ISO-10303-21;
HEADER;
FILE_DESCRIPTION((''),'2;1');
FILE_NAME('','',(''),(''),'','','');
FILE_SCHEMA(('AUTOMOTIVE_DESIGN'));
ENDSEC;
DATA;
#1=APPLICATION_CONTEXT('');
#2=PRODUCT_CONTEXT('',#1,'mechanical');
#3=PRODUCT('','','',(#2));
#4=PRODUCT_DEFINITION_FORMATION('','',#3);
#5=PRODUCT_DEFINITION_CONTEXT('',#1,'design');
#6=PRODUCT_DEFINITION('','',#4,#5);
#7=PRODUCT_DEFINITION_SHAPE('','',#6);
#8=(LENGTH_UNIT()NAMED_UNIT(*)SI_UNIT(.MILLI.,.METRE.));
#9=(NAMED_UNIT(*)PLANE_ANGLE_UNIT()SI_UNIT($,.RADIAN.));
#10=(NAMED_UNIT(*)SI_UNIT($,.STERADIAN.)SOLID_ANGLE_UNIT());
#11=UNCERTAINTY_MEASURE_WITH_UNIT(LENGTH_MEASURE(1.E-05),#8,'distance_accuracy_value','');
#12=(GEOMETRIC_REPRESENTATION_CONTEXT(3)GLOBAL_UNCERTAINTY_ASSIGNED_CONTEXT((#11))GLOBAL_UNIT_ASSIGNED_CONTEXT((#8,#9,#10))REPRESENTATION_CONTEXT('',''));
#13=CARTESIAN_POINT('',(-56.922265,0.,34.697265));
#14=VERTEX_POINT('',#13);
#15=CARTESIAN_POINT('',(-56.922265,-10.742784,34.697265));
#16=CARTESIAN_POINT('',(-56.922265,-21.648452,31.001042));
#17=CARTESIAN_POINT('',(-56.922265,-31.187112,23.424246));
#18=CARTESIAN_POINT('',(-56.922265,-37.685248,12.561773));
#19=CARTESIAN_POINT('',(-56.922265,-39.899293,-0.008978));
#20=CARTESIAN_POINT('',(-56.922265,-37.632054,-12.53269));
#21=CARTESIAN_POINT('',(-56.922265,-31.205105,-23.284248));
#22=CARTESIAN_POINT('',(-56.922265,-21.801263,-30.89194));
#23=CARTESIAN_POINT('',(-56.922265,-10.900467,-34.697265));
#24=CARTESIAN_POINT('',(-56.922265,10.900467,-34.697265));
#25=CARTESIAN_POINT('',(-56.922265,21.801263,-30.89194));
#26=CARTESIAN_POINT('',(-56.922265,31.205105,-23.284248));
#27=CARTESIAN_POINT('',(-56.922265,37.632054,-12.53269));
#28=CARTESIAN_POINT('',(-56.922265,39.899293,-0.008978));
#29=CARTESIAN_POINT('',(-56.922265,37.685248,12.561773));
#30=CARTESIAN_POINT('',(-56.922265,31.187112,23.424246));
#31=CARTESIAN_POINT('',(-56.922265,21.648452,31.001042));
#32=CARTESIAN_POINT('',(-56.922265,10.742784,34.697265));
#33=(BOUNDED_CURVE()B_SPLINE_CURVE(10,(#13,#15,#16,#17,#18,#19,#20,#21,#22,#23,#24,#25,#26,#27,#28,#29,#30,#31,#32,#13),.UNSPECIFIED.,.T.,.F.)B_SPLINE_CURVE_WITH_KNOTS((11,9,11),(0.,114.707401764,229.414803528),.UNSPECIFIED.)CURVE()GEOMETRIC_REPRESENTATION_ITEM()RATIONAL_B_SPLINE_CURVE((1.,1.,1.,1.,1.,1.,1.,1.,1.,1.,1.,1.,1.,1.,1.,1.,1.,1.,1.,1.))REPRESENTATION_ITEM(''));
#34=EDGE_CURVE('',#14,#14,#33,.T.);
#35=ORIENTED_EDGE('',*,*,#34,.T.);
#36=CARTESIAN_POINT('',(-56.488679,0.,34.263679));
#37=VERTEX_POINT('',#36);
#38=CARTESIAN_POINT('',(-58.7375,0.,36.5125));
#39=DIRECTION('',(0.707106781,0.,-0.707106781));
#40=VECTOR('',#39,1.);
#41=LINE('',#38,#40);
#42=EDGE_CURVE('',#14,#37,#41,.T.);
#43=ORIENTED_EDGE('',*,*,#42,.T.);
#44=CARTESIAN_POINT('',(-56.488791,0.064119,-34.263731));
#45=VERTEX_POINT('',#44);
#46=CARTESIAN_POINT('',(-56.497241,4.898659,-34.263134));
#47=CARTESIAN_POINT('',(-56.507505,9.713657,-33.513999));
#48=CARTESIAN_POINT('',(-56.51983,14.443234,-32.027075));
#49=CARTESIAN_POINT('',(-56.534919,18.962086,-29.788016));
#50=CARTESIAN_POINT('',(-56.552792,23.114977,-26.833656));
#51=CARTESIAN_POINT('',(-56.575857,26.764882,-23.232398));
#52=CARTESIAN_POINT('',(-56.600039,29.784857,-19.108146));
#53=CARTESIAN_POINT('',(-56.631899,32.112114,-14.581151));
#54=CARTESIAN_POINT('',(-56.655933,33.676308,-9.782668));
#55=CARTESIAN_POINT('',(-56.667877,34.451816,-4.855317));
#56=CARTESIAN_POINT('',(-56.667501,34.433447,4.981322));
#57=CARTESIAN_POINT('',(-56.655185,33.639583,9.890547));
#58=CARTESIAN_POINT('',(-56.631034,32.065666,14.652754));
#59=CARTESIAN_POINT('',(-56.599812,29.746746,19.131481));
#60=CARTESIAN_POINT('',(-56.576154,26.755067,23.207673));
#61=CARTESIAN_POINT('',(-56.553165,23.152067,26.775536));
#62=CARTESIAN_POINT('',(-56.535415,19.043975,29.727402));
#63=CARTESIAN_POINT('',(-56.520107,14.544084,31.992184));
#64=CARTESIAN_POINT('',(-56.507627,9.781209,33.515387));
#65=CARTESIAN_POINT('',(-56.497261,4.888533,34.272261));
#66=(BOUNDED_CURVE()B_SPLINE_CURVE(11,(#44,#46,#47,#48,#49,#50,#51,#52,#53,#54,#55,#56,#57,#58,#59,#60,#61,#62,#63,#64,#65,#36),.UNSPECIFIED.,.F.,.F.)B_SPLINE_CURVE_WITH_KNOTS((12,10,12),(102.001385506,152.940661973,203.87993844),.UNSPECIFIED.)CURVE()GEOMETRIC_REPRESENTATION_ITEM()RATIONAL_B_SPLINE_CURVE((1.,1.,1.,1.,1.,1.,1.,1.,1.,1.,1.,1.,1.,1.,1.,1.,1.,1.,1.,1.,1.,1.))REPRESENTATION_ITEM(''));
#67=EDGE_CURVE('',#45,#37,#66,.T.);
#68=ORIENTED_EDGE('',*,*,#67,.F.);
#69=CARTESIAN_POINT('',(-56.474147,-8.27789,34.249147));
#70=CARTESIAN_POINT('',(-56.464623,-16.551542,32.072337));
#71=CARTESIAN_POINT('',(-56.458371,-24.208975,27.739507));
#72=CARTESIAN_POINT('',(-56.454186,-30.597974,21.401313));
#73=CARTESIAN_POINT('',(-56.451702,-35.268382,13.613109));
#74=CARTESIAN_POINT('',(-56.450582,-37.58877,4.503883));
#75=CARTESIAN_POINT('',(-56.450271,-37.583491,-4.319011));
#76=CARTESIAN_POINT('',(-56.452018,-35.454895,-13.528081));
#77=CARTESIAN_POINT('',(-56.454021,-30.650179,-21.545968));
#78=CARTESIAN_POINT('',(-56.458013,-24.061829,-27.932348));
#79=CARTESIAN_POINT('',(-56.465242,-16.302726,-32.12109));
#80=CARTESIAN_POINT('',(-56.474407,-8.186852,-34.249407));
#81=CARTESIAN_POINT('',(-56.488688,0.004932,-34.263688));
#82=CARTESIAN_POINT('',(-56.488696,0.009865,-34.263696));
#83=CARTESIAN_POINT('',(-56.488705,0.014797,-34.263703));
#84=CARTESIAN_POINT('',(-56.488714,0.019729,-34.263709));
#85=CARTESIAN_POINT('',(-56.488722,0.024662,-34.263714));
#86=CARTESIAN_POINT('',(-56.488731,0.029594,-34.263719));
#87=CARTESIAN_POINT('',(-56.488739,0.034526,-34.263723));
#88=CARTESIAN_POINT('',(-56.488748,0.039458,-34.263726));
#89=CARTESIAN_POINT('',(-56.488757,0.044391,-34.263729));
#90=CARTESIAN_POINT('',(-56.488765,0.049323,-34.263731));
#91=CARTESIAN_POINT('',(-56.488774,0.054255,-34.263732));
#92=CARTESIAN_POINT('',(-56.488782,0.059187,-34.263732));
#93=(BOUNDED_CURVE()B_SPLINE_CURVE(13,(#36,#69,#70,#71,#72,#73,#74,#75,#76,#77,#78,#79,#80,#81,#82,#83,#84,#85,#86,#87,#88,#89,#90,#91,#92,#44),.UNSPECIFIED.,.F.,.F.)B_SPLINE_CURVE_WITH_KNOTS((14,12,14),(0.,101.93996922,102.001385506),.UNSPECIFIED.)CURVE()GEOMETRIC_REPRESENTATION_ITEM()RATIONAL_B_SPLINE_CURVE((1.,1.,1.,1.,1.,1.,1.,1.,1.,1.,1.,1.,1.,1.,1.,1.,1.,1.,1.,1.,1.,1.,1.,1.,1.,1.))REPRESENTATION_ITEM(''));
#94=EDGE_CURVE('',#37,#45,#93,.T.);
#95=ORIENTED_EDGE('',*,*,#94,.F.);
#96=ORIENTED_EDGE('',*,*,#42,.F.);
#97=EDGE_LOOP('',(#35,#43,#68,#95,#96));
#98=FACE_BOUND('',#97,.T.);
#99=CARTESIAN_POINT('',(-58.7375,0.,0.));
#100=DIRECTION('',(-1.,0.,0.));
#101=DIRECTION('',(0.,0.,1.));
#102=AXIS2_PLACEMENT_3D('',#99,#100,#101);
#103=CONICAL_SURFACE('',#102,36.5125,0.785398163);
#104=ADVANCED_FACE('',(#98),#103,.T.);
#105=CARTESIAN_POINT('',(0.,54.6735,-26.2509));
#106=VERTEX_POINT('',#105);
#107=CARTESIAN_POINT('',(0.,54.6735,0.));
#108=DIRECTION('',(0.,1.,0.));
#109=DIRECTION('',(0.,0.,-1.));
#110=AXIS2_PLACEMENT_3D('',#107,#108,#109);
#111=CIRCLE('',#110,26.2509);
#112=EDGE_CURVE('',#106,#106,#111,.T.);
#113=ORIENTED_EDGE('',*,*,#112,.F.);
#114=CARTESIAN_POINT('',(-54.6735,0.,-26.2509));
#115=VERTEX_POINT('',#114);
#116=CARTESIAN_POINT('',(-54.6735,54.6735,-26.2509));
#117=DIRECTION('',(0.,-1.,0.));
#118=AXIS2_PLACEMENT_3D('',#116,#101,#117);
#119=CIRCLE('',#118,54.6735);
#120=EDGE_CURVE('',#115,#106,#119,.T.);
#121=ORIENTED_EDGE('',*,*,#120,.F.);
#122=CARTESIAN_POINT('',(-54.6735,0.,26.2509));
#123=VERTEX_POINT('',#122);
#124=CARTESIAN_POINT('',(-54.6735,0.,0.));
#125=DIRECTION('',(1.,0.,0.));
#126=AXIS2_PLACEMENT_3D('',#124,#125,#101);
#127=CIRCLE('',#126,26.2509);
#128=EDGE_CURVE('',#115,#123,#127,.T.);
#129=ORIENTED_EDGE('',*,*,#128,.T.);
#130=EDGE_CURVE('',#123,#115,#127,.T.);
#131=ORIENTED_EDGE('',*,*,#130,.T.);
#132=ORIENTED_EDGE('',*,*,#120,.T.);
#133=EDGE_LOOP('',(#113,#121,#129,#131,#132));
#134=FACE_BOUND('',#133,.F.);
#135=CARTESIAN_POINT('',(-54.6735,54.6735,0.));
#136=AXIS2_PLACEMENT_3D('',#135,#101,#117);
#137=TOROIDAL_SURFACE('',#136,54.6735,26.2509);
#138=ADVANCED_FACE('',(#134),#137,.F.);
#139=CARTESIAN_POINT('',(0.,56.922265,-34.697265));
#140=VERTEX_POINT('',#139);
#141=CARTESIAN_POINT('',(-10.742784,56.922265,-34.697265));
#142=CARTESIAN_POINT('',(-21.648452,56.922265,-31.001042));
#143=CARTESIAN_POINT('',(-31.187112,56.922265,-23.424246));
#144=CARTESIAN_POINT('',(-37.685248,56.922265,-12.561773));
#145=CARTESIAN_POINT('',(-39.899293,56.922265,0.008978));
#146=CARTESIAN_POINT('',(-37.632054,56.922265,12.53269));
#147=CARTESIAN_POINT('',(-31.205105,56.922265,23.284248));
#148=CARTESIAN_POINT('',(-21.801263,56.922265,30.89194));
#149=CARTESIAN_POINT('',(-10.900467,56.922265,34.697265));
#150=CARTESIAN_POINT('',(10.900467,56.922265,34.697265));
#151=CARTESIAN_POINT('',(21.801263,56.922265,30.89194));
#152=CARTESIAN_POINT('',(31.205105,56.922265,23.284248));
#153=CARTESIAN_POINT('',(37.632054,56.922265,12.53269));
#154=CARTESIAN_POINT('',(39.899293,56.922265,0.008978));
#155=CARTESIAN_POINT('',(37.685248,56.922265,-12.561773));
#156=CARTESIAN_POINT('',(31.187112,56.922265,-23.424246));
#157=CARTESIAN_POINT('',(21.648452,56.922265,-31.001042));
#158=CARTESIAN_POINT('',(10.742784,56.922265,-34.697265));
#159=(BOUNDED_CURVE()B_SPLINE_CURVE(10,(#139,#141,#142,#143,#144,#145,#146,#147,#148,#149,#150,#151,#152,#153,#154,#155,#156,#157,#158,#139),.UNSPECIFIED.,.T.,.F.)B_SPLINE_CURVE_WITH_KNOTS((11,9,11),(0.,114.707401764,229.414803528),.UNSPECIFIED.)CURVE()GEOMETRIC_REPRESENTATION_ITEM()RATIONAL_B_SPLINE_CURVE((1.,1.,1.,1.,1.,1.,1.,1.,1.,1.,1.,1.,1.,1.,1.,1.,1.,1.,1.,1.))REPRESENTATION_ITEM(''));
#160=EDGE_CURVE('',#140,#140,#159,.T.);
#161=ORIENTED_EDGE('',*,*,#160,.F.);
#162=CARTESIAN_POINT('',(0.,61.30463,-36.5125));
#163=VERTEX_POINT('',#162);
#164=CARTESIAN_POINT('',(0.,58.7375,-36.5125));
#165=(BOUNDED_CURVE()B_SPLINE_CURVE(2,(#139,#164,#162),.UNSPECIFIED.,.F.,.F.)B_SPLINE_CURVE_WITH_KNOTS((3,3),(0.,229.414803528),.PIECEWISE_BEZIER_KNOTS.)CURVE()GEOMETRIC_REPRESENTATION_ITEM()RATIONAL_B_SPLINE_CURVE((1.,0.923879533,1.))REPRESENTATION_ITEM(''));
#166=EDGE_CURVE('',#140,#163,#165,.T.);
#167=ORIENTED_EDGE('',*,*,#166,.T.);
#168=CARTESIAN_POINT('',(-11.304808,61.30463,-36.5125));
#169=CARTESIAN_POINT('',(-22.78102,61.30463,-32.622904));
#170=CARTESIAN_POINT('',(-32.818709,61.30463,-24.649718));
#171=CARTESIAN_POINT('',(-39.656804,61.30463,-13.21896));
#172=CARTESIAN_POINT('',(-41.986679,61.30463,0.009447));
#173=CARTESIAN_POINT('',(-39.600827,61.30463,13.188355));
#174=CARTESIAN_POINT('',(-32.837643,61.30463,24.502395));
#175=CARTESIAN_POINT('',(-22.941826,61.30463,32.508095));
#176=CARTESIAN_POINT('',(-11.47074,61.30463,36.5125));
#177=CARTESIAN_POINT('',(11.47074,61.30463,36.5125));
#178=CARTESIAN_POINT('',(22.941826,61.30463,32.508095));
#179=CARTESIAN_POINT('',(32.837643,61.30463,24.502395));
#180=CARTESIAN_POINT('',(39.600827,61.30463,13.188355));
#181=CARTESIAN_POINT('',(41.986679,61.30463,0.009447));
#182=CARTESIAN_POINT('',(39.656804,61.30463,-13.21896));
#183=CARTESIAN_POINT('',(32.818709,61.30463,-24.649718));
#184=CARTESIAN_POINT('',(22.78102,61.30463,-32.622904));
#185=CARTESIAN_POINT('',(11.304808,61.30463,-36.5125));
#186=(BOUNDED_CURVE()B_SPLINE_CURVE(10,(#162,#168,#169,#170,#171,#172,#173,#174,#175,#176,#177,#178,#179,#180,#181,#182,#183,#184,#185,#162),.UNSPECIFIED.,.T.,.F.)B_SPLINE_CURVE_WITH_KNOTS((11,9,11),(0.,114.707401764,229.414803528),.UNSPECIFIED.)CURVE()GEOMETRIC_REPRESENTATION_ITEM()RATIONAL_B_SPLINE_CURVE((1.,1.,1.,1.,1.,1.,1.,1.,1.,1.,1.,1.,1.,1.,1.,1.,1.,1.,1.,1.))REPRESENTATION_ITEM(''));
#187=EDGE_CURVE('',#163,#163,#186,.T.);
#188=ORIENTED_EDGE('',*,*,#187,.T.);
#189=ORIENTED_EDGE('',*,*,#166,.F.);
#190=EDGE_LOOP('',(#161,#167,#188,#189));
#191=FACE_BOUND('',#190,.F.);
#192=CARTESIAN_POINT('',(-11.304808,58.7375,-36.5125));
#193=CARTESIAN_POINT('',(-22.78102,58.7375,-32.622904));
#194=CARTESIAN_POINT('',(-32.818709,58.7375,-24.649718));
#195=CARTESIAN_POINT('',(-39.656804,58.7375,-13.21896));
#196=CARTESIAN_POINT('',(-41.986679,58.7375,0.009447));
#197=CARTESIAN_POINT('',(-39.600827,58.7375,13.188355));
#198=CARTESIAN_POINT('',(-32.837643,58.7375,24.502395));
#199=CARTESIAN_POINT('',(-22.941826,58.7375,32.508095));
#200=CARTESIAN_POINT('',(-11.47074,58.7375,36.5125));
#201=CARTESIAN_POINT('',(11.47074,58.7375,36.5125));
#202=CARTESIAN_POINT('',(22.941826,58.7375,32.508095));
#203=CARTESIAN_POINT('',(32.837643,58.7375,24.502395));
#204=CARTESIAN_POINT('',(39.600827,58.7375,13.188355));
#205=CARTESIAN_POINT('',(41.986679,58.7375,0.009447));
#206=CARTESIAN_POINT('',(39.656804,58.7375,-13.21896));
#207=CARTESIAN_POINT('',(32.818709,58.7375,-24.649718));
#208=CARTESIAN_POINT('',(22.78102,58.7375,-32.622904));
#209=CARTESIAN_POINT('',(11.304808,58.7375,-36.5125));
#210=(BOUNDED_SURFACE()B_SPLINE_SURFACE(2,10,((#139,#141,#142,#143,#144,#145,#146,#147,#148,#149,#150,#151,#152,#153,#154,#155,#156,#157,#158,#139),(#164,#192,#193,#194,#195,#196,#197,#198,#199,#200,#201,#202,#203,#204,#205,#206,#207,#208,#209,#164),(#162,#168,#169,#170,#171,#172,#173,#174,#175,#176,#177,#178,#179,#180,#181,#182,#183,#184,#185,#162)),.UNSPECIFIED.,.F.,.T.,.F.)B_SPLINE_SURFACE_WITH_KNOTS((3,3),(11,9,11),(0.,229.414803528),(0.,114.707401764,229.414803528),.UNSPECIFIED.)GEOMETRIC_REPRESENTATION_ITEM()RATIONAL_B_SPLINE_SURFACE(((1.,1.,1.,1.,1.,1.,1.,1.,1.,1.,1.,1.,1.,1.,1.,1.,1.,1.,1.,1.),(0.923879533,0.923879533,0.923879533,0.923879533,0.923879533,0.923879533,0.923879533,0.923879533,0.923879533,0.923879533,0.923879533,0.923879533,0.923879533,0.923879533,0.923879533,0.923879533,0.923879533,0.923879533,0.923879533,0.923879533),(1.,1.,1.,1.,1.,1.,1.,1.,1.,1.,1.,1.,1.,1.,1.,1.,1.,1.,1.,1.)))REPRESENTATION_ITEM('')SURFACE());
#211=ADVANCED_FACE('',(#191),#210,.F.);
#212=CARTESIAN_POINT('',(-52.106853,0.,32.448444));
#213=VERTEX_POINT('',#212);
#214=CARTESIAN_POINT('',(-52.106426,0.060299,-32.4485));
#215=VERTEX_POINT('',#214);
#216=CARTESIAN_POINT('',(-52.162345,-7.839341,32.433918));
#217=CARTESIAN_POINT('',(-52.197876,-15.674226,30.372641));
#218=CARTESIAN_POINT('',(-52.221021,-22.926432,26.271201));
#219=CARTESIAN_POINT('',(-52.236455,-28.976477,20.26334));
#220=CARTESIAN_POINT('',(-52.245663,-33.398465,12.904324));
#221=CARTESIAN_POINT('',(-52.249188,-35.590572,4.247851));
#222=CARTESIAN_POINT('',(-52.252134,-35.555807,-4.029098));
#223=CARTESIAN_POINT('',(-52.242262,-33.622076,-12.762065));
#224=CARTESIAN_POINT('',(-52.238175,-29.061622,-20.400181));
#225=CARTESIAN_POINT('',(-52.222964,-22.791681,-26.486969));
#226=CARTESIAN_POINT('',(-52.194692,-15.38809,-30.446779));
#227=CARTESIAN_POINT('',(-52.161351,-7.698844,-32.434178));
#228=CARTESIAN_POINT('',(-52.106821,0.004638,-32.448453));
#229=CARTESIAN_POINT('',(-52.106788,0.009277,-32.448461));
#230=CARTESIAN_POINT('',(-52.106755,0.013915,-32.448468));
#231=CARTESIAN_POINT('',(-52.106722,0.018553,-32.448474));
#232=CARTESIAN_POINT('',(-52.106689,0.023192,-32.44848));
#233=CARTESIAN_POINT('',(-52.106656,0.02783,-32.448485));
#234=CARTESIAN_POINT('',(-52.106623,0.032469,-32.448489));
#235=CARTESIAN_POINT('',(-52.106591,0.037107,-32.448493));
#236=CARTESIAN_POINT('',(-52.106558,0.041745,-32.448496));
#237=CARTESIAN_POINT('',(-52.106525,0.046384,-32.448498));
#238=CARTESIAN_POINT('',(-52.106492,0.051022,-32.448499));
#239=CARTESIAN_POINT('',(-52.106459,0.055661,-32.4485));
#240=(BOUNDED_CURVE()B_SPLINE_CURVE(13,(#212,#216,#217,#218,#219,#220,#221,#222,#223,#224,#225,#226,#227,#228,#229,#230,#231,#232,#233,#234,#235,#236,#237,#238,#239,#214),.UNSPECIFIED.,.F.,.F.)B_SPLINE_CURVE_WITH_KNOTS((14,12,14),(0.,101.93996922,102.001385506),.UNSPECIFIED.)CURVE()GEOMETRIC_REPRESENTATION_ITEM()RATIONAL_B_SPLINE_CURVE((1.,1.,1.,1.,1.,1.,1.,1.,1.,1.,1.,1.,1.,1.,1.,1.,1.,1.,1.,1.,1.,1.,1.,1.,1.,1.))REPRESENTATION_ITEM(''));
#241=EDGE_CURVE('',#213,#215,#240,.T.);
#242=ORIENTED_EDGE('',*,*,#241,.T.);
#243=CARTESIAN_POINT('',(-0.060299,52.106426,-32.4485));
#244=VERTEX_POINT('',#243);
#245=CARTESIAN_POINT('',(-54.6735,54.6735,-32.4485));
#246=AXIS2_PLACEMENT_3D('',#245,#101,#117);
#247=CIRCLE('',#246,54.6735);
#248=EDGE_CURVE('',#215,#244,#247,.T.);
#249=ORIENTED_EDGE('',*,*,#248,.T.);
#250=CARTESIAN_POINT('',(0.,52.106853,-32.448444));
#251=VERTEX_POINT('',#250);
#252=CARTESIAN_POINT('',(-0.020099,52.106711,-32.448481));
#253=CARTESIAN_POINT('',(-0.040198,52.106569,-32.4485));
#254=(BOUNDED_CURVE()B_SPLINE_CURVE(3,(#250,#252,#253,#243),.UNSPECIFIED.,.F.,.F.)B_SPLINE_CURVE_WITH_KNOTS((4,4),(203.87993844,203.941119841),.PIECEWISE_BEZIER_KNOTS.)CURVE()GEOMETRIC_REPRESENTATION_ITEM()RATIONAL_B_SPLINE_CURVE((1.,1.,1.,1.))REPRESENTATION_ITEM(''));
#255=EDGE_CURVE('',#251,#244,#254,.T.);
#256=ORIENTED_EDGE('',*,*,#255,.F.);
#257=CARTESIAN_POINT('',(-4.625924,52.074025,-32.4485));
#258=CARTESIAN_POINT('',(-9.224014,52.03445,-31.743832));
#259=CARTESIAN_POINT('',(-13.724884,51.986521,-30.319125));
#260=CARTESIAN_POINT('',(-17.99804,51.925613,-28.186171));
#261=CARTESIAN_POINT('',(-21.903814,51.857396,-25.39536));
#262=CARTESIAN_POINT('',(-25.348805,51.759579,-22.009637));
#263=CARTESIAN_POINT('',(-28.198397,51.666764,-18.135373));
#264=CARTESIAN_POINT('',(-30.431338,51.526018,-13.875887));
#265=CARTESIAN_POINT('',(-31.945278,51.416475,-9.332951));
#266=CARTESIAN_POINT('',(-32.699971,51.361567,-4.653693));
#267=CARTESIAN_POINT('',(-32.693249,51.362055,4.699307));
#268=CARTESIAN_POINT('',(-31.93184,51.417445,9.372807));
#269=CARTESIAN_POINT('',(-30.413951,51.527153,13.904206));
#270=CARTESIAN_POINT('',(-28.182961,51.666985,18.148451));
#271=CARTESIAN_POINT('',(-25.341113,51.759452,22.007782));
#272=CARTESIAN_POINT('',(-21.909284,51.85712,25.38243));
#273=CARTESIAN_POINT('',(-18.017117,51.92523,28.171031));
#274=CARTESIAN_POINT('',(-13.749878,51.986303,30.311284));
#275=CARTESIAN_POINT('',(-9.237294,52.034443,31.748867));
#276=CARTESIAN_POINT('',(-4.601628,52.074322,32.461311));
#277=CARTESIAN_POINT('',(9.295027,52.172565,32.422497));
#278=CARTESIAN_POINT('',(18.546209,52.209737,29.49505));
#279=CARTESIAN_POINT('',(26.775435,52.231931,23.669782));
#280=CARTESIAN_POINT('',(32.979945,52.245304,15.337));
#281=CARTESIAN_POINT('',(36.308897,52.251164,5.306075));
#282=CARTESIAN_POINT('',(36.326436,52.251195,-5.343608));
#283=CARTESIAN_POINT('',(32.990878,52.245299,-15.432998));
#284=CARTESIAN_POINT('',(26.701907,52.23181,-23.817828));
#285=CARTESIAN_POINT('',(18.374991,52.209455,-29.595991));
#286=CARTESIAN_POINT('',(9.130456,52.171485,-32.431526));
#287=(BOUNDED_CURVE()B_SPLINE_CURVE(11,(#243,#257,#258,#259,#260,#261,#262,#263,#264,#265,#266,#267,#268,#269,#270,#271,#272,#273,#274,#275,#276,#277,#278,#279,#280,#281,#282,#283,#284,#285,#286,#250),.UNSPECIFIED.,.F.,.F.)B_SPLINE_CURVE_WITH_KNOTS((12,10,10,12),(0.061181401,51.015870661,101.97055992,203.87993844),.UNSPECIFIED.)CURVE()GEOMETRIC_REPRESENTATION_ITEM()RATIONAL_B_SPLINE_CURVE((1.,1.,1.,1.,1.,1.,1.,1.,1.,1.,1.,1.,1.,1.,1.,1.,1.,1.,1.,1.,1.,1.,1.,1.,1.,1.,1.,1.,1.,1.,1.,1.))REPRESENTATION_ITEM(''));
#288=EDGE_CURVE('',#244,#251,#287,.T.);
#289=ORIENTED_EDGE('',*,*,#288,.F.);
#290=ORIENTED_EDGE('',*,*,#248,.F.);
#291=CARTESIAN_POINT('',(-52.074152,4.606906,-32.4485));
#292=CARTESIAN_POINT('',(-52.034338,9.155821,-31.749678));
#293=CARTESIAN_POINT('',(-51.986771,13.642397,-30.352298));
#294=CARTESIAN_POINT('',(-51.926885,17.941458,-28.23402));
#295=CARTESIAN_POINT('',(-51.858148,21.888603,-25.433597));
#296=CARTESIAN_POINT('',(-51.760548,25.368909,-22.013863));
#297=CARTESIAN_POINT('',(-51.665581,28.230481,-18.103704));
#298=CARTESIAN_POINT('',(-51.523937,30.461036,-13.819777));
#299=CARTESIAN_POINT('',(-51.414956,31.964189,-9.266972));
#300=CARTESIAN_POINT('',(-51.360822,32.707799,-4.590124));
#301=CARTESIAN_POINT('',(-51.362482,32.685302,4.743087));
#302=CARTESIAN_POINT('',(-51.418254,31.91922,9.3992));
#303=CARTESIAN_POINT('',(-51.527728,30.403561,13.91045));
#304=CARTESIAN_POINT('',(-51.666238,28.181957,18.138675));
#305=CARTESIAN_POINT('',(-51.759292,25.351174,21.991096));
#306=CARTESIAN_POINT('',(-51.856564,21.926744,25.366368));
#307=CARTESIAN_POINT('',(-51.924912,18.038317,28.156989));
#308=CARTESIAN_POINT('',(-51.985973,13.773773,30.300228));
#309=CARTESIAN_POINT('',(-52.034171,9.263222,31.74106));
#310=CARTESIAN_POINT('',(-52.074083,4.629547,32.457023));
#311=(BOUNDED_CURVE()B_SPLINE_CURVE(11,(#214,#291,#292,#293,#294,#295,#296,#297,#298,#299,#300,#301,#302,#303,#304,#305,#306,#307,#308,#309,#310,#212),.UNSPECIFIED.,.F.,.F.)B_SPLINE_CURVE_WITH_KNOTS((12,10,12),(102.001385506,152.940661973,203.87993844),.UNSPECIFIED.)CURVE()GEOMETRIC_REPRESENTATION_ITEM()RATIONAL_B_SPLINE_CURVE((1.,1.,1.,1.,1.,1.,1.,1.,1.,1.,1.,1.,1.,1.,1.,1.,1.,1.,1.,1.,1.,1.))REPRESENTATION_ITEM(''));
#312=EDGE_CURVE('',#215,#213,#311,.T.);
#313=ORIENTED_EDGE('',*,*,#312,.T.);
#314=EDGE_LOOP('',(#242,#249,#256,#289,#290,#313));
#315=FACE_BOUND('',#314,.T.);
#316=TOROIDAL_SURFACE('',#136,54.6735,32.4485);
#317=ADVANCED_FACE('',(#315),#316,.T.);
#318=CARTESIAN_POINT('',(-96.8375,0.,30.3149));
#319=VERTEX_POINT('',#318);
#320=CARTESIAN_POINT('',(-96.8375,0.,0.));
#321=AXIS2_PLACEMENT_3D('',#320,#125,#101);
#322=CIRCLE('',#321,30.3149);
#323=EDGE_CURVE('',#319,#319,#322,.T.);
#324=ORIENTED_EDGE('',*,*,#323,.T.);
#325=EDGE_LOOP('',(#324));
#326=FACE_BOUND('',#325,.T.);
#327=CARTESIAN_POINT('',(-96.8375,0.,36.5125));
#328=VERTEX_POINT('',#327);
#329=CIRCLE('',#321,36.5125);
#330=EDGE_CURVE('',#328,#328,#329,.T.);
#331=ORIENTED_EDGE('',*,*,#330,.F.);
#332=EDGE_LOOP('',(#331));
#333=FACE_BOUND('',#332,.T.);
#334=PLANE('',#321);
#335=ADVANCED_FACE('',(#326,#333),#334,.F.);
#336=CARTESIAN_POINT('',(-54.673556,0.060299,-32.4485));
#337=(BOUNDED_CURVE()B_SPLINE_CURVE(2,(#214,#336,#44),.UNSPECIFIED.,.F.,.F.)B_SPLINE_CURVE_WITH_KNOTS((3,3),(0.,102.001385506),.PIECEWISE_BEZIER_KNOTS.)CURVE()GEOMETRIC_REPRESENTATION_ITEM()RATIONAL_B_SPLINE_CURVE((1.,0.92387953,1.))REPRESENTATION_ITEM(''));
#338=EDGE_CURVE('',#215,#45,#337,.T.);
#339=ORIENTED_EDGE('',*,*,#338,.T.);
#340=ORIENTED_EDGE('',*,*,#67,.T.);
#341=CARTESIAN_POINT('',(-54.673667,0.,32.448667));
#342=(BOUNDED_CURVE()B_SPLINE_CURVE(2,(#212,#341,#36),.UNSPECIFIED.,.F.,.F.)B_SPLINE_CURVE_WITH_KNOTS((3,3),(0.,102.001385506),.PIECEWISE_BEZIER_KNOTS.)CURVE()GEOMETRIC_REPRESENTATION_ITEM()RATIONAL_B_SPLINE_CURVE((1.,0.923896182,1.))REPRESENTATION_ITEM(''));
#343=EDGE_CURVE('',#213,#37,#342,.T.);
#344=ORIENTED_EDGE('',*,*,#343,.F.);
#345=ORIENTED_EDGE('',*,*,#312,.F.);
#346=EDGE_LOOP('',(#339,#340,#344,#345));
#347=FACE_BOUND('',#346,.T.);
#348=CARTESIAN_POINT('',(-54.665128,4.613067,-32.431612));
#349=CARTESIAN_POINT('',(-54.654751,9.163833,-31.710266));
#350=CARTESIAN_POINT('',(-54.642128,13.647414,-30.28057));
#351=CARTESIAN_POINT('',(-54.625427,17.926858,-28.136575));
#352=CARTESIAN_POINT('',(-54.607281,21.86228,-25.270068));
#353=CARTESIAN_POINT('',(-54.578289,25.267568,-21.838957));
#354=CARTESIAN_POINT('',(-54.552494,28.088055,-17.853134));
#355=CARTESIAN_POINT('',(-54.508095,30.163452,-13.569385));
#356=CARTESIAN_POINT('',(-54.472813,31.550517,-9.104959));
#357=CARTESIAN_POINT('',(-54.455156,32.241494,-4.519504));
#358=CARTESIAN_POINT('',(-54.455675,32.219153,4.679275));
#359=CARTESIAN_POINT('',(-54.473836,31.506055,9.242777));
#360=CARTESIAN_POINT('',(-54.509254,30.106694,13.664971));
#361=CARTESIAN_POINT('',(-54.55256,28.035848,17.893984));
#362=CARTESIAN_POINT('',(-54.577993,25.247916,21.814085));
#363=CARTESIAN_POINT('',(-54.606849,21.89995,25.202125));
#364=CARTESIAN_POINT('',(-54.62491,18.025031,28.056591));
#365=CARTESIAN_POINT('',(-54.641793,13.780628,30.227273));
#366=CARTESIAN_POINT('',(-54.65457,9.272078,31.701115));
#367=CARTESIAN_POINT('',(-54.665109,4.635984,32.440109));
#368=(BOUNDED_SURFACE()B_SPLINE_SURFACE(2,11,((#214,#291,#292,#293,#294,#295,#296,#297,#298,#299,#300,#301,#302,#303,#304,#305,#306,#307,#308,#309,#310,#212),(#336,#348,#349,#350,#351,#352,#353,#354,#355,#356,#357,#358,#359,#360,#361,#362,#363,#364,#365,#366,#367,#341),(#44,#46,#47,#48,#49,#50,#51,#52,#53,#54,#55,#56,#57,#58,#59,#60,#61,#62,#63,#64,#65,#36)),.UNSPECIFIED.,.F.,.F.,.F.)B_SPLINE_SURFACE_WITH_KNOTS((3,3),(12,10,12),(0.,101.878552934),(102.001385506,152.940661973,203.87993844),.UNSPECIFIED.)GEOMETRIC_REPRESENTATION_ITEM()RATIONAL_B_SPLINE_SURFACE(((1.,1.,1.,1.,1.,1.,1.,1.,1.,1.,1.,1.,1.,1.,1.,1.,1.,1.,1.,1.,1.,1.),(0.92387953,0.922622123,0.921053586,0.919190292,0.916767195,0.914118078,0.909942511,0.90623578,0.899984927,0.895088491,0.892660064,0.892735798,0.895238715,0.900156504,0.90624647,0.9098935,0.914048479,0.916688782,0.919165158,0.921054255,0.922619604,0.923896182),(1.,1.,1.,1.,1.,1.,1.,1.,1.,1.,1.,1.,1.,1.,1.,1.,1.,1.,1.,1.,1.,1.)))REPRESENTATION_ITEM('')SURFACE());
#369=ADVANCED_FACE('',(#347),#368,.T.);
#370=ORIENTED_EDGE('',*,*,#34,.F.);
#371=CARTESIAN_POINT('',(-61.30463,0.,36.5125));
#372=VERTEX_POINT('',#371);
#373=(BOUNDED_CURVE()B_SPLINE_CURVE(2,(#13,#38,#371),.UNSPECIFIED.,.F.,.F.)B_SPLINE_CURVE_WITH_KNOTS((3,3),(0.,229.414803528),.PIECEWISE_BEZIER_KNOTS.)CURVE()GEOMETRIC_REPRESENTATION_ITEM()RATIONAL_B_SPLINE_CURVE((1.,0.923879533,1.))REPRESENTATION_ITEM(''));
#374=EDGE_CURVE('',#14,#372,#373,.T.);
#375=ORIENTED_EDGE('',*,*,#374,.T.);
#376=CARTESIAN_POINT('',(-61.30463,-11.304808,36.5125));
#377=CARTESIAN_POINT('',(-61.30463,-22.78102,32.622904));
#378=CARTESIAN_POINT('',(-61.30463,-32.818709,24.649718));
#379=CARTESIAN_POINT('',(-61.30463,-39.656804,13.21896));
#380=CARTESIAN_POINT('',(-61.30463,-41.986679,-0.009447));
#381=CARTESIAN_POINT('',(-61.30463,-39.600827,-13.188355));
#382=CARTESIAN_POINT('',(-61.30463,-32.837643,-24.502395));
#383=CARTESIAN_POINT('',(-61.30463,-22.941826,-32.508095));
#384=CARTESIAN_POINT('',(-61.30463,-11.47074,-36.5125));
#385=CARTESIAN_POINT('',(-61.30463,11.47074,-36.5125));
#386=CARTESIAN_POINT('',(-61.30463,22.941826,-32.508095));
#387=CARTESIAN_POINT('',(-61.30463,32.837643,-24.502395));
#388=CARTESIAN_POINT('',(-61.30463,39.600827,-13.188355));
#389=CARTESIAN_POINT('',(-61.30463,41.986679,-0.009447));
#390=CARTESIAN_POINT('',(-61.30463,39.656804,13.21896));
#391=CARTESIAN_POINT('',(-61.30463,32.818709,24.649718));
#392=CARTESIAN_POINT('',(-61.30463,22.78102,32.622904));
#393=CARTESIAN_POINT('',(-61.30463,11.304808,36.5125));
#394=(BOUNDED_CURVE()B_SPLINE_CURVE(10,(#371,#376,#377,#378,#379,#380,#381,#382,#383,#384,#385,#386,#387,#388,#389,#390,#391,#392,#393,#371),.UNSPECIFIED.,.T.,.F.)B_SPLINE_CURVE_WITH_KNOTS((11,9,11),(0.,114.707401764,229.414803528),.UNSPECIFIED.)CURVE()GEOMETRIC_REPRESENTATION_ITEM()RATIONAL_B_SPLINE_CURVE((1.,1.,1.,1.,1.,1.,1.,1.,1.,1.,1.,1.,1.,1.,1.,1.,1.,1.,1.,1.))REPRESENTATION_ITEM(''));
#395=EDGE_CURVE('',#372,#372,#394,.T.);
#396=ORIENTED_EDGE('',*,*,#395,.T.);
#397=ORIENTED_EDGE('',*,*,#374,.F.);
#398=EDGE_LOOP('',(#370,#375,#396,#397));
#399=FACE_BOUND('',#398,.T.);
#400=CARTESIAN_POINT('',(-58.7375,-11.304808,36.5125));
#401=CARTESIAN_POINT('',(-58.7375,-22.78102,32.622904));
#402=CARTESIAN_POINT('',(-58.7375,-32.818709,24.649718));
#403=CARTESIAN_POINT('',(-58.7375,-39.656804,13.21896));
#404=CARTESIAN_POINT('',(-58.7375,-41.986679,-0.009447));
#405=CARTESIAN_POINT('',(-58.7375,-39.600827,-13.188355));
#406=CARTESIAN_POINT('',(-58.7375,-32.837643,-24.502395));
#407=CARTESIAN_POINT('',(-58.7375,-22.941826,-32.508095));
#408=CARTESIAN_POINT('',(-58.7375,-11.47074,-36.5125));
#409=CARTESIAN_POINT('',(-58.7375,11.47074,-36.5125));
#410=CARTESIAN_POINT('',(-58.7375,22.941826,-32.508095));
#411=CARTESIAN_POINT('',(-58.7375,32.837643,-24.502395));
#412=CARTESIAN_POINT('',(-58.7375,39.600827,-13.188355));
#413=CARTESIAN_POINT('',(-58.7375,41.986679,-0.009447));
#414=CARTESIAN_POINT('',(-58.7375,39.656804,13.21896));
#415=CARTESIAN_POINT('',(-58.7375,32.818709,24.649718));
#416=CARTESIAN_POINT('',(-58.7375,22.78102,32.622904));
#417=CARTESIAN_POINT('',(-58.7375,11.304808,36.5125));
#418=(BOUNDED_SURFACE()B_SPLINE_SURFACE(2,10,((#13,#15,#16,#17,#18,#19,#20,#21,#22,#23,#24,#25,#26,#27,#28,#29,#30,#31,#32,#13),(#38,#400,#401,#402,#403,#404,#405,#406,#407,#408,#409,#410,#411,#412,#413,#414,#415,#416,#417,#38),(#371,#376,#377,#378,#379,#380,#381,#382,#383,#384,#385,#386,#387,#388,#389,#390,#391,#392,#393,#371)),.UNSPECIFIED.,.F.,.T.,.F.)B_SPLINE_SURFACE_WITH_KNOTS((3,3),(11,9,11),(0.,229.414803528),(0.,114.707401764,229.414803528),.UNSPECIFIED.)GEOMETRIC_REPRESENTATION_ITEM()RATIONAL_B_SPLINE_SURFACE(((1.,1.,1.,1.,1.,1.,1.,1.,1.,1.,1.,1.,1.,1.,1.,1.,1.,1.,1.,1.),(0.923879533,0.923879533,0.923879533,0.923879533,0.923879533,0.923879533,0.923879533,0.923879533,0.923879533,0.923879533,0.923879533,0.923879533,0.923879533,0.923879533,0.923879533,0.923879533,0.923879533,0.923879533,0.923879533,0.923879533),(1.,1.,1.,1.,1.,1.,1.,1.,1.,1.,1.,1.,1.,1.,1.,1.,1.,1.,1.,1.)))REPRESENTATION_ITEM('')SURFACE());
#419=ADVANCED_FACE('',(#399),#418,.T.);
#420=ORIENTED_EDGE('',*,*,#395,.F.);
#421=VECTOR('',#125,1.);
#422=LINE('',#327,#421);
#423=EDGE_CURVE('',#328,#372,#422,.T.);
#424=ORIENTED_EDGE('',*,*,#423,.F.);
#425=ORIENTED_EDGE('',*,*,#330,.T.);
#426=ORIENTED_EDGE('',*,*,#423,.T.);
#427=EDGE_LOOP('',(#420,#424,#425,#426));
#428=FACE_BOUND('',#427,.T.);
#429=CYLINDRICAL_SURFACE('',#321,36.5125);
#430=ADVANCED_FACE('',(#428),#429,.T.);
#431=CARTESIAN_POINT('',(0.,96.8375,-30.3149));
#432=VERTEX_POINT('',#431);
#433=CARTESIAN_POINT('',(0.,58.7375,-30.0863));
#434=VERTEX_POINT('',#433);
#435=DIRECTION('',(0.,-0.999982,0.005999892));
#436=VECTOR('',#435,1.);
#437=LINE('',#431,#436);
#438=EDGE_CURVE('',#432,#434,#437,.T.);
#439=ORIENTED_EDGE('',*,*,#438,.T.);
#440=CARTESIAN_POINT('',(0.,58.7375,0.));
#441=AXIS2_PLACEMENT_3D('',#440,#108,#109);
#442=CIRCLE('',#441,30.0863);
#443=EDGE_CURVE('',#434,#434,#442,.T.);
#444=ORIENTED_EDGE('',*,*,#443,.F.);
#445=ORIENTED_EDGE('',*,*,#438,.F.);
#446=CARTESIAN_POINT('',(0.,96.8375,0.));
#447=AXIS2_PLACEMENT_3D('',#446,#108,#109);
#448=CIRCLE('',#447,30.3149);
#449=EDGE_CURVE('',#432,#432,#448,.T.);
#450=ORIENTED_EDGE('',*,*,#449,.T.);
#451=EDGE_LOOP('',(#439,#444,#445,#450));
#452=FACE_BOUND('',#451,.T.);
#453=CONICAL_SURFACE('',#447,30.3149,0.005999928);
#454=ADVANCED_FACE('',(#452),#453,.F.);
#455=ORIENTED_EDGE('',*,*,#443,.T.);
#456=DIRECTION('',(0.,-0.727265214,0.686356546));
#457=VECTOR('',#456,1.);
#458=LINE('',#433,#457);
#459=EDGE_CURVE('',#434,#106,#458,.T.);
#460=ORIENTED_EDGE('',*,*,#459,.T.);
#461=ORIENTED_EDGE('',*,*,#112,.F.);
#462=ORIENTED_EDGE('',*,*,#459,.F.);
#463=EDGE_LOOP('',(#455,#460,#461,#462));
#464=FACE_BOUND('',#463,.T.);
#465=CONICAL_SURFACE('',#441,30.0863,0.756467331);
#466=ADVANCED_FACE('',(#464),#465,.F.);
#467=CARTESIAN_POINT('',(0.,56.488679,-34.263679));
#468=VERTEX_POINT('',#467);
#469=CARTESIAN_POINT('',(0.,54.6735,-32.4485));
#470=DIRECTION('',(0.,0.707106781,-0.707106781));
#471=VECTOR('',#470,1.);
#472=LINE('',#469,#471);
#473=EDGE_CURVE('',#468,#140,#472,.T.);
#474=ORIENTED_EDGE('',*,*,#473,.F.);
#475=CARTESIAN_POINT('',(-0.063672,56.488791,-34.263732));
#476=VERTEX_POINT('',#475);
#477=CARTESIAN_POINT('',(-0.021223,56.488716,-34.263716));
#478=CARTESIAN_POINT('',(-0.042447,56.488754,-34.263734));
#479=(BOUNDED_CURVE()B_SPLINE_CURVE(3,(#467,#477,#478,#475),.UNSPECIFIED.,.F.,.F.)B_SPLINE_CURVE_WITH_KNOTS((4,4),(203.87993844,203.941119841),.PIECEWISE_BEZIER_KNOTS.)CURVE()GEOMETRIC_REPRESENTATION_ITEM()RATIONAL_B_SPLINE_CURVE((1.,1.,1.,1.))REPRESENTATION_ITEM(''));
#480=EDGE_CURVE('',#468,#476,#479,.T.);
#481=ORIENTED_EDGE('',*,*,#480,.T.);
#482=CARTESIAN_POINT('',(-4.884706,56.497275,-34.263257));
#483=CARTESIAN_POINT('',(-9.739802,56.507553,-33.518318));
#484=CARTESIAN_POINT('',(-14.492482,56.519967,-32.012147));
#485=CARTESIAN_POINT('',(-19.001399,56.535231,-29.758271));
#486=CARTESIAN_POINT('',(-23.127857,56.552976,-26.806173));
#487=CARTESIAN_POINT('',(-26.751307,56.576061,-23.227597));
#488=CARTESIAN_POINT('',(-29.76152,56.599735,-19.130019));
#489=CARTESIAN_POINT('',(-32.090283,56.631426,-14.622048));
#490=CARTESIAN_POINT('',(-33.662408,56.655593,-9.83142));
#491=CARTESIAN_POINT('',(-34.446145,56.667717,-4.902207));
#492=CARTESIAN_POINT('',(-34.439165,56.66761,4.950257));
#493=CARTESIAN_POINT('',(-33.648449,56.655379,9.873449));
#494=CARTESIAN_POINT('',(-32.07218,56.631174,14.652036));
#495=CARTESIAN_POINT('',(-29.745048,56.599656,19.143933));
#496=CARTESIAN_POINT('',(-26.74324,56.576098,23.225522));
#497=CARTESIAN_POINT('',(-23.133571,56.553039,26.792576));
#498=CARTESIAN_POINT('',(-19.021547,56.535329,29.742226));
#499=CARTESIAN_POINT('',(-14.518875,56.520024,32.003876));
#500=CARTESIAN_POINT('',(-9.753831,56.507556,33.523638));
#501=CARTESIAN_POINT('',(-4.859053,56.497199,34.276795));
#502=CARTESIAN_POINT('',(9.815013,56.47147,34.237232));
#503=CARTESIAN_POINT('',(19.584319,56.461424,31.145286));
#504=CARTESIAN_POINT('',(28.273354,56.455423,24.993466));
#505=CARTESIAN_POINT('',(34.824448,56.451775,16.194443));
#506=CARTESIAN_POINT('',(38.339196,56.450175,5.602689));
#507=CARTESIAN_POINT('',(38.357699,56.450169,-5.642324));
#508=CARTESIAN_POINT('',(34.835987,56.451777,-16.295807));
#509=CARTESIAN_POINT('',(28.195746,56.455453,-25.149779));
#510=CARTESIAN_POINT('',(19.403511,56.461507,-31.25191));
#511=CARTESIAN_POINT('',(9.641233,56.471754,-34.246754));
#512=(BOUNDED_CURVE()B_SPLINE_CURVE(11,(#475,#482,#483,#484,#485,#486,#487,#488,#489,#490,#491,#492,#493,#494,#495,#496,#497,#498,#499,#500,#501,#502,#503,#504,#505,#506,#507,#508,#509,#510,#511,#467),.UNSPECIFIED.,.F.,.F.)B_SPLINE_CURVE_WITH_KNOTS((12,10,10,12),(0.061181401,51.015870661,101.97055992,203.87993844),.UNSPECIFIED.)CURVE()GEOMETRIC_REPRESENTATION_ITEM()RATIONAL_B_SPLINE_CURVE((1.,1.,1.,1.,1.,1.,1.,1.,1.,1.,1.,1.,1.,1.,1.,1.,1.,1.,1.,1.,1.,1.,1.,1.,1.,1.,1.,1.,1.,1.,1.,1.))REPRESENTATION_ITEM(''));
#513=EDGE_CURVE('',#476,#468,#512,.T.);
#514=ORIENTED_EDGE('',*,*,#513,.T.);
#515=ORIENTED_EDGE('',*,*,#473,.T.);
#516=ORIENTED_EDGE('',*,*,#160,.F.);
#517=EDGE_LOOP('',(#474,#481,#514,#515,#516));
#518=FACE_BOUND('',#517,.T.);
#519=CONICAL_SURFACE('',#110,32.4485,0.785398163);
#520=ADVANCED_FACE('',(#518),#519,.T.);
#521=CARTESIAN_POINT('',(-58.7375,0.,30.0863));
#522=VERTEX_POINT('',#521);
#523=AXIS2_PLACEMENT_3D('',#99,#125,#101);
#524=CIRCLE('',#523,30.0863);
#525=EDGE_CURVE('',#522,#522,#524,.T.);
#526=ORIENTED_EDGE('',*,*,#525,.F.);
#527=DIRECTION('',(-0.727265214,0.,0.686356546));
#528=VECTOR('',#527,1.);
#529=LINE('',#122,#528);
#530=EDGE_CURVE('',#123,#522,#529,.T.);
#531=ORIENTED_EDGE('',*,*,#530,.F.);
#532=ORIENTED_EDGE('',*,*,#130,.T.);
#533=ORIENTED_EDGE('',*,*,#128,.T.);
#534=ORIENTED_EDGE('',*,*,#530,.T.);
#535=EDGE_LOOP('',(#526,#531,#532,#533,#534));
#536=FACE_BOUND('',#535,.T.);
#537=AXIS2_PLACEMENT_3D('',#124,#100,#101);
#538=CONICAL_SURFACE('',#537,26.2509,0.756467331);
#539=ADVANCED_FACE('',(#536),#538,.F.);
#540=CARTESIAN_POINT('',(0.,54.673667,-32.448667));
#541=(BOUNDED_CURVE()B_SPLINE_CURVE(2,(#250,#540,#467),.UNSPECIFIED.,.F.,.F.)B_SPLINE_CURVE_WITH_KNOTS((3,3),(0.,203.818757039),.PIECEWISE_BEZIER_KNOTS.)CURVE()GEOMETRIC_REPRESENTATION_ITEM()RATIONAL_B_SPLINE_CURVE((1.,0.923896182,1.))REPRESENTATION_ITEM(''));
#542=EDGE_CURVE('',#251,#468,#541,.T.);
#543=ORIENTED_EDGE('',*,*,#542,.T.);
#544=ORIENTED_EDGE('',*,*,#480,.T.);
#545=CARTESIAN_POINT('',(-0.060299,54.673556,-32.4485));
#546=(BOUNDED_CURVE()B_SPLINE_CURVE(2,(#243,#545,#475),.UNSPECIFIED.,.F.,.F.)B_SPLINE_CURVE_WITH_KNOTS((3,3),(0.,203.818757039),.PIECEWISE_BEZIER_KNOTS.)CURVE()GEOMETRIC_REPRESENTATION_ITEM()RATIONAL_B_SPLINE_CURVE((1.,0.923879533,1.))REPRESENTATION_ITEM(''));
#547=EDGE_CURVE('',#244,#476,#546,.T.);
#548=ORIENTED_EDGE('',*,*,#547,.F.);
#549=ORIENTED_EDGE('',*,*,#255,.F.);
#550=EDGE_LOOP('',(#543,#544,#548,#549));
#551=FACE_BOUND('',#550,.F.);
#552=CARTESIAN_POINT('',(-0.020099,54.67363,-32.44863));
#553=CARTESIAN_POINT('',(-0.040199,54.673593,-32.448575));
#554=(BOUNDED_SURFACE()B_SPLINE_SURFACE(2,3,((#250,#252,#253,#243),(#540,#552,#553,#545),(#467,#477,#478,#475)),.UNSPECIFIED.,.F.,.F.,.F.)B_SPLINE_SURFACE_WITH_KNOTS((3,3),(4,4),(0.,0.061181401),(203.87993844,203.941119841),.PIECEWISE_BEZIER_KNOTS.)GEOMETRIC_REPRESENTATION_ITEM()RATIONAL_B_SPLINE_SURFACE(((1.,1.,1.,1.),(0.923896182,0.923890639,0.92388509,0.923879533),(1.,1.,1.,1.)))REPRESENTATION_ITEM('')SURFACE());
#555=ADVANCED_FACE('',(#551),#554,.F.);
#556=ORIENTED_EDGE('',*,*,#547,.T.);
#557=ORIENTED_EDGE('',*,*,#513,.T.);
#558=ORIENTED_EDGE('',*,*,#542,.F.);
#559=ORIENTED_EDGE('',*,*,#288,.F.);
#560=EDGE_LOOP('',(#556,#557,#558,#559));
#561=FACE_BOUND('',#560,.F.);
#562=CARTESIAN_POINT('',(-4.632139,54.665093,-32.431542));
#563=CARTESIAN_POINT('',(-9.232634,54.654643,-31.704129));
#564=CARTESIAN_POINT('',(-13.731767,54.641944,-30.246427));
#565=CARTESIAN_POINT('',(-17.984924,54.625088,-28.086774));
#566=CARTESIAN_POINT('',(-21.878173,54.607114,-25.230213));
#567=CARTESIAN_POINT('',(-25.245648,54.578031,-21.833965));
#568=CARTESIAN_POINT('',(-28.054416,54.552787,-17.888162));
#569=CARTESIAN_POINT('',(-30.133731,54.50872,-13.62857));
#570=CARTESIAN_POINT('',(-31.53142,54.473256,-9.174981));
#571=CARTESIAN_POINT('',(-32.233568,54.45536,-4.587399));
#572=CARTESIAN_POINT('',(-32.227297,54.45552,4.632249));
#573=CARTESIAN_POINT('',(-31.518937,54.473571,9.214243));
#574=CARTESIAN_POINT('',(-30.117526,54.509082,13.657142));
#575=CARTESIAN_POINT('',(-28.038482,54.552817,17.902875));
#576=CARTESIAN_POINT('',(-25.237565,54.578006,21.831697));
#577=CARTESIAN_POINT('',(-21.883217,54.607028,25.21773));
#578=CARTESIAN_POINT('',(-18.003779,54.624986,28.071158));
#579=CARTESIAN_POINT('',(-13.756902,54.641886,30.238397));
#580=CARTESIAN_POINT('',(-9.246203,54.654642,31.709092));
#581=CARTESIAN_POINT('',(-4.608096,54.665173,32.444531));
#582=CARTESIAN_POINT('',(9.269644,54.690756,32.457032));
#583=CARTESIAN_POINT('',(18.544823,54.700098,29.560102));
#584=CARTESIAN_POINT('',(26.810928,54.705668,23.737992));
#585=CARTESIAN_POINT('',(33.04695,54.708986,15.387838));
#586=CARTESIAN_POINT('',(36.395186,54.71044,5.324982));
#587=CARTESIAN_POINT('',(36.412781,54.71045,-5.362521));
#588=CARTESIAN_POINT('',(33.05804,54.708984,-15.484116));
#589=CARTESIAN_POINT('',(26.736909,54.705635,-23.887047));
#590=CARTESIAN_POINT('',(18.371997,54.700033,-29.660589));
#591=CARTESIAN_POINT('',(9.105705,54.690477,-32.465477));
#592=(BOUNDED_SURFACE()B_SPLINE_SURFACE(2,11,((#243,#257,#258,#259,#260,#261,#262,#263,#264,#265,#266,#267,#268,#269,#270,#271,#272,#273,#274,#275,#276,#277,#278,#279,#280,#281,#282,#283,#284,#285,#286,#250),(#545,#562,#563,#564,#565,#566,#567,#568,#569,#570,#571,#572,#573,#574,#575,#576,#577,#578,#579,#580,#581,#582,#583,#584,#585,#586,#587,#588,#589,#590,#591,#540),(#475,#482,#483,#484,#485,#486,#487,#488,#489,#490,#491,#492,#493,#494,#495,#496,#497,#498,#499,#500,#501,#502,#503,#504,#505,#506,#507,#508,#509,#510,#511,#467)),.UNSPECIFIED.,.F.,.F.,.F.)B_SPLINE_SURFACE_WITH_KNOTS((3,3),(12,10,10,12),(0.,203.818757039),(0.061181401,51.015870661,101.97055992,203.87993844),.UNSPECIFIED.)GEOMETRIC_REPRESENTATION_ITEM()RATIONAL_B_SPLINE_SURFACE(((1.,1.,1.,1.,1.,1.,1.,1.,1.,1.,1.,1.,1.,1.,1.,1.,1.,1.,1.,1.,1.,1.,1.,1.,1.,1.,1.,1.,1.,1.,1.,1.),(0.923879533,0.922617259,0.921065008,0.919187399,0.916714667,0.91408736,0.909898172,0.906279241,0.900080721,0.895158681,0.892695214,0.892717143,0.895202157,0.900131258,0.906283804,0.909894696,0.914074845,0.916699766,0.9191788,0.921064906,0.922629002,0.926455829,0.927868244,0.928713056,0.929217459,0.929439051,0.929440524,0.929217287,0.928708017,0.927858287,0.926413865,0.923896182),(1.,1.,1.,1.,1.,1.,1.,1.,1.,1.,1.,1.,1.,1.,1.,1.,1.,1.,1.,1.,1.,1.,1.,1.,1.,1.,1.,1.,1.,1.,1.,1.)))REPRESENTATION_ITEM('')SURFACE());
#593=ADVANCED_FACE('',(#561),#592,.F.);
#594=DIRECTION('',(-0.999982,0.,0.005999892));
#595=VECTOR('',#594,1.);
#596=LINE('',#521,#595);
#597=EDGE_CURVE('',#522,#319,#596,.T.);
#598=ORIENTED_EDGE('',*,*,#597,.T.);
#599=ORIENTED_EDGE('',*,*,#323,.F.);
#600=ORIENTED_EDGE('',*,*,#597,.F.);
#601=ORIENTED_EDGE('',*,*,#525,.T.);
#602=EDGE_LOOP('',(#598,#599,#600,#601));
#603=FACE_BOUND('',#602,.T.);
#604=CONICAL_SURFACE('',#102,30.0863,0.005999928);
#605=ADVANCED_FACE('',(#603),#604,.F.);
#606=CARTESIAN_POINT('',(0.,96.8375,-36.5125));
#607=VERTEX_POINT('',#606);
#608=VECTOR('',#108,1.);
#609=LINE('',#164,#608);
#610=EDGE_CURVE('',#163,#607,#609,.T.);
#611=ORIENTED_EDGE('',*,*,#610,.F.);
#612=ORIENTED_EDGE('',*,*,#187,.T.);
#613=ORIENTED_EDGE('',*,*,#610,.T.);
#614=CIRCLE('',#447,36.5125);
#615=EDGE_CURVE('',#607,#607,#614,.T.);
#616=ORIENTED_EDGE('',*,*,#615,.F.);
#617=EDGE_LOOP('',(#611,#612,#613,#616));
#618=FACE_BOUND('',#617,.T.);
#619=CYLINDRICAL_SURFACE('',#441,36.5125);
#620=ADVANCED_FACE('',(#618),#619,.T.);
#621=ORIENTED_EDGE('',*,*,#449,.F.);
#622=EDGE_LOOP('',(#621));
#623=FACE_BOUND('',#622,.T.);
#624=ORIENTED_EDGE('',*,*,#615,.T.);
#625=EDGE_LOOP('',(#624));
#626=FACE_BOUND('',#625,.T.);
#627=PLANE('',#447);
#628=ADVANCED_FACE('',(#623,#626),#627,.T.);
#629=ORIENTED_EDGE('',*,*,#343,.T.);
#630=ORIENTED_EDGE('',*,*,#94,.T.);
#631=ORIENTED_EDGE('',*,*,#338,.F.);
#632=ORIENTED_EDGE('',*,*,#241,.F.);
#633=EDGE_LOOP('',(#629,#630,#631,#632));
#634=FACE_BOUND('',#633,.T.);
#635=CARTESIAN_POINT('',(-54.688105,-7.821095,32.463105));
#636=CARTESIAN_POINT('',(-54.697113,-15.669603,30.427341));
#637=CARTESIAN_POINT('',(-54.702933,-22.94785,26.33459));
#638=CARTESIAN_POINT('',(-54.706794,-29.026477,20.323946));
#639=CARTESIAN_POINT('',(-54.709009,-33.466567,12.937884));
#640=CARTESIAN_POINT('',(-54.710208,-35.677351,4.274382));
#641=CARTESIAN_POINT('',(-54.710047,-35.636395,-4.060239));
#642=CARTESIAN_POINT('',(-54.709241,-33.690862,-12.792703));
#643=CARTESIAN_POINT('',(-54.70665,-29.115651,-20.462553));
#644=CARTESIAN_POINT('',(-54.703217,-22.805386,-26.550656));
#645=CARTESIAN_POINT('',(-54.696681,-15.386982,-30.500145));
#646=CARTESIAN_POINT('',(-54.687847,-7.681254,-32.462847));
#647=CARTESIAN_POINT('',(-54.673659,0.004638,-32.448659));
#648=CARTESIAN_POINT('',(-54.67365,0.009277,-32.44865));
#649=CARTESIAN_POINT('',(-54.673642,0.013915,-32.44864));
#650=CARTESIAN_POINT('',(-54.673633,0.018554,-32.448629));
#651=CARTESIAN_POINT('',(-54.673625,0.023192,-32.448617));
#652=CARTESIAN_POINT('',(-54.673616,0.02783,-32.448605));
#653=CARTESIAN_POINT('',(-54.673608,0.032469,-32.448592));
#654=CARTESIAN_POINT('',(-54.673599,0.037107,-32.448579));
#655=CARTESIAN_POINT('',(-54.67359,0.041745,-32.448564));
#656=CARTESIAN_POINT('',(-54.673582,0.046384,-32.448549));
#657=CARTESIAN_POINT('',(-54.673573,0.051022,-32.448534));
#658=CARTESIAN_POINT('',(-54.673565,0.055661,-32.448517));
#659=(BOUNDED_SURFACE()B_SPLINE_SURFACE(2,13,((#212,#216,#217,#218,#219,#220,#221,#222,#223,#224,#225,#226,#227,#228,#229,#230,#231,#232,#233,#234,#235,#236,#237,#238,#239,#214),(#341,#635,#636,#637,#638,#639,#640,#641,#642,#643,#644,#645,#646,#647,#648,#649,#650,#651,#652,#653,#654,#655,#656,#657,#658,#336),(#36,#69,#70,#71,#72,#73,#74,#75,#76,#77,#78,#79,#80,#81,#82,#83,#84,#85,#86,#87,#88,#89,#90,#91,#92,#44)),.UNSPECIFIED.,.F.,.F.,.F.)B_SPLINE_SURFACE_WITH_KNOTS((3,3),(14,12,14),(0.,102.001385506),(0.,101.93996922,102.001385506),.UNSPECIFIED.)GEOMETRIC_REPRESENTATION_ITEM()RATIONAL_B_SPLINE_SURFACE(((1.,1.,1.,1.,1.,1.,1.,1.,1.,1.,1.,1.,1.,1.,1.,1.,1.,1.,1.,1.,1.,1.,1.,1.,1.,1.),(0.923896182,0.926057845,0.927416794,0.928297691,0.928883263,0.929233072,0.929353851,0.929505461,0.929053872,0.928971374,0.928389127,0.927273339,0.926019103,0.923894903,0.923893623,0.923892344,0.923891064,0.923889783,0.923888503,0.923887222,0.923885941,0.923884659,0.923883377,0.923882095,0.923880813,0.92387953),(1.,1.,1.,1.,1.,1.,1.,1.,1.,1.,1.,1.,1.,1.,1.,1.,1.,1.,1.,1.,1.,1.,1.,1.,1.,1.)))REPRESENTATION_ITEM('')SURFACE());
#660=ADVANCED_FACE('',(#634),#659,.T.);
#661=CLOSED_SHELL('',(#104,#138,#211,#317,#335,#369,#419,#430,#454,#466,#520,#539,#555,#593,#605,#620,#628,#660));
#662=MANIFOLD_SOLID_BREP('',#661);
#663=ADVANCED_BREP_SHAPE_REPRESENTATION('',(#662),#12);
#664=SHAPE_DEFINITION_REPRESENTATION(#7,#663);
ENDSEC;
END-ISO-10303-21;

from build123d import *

# Parameters (mm, degrees)
SKETCH3_R   = 32.4485
SKETCH3_R_2 = 26.2509
FILLET1_R   = 6.1976


with BuildPart() as part:
    # Sketch1 → Revolve1 (revolve)
    with BuildSketch(Plane.XY, mode=Mode.PRIVATE) as revolve1_sk:
        Polygon((-58.7375, -36.5125), (-54.6735, -32.4485), (-54.6735, -26.2509), (-58.7375, -30.0863), (-96.8375, -30.3149), (-96.8375, -36.5125), align=None)
    revolve(revolve1_sk.sketch.rotate(Axis((-96.8375, 0, 0), (1, 0, 0)), 270), axis=Axis((-96.8375, 0, 0), (1, 0, 0)))



with BuildPart() as body_2:
    # Sketch2 → Revolve2 (revolve)
    with BuildSketch(Plane.XY, mode=Mode.PRIVATE) as revolve2_sk:
        Polygon((30.3149, 96.8375), (30.0863, 58.7375), (26.2509, 54.6735), (32.4485, 54.6735), (36.5125, 58.7375), (36.5125, 96.8375), align=None)
    revolve(revolve2_sk.sketch.rotate(Axis((0, 0, 0), (0, 1, 0)), 90), axis=Axis((0, 0, 0), (0, 1, 0)))


with BuildPart() as part_1:
    add(part.part)

    add(body_2.part)  # Sweep1 merges body 2
    # Sweep1: sweep along a path in Sketch4
    with BuildLine(Plane.XY) as sweep1_path:
        ThreePointArc((-54.6735, 0), (-16.013497399, 16.013497399), (0, 54.6735))
    # Sketch3 → Sweep1 (sweep)
    with BuildSketch(Plane(origin=(-54.6735, 0, 0), x_dir=(0, 0, -1), z_dir=(1, 0, 0))):
        Circle(SKETCH3_R)
        Circle(SKETCH3_R_2, mode=Mode.SUBTRACT)
    sweep(path=sweep1_path.line)

    # Fillet1
    fillet1_edges = [part_1.edges().sort_by_distance(p)[0] for p in [
        (-54.6735, -32.4485, 0),
        (0, 54.6735, 32.4485),
        (0, 58.7375, 36.5125),
        (-58.7375, 0, -36.5125),
    ]]
    fillet(fillet1_edges, radius=FILLET1_R)


solid = part_1.part
